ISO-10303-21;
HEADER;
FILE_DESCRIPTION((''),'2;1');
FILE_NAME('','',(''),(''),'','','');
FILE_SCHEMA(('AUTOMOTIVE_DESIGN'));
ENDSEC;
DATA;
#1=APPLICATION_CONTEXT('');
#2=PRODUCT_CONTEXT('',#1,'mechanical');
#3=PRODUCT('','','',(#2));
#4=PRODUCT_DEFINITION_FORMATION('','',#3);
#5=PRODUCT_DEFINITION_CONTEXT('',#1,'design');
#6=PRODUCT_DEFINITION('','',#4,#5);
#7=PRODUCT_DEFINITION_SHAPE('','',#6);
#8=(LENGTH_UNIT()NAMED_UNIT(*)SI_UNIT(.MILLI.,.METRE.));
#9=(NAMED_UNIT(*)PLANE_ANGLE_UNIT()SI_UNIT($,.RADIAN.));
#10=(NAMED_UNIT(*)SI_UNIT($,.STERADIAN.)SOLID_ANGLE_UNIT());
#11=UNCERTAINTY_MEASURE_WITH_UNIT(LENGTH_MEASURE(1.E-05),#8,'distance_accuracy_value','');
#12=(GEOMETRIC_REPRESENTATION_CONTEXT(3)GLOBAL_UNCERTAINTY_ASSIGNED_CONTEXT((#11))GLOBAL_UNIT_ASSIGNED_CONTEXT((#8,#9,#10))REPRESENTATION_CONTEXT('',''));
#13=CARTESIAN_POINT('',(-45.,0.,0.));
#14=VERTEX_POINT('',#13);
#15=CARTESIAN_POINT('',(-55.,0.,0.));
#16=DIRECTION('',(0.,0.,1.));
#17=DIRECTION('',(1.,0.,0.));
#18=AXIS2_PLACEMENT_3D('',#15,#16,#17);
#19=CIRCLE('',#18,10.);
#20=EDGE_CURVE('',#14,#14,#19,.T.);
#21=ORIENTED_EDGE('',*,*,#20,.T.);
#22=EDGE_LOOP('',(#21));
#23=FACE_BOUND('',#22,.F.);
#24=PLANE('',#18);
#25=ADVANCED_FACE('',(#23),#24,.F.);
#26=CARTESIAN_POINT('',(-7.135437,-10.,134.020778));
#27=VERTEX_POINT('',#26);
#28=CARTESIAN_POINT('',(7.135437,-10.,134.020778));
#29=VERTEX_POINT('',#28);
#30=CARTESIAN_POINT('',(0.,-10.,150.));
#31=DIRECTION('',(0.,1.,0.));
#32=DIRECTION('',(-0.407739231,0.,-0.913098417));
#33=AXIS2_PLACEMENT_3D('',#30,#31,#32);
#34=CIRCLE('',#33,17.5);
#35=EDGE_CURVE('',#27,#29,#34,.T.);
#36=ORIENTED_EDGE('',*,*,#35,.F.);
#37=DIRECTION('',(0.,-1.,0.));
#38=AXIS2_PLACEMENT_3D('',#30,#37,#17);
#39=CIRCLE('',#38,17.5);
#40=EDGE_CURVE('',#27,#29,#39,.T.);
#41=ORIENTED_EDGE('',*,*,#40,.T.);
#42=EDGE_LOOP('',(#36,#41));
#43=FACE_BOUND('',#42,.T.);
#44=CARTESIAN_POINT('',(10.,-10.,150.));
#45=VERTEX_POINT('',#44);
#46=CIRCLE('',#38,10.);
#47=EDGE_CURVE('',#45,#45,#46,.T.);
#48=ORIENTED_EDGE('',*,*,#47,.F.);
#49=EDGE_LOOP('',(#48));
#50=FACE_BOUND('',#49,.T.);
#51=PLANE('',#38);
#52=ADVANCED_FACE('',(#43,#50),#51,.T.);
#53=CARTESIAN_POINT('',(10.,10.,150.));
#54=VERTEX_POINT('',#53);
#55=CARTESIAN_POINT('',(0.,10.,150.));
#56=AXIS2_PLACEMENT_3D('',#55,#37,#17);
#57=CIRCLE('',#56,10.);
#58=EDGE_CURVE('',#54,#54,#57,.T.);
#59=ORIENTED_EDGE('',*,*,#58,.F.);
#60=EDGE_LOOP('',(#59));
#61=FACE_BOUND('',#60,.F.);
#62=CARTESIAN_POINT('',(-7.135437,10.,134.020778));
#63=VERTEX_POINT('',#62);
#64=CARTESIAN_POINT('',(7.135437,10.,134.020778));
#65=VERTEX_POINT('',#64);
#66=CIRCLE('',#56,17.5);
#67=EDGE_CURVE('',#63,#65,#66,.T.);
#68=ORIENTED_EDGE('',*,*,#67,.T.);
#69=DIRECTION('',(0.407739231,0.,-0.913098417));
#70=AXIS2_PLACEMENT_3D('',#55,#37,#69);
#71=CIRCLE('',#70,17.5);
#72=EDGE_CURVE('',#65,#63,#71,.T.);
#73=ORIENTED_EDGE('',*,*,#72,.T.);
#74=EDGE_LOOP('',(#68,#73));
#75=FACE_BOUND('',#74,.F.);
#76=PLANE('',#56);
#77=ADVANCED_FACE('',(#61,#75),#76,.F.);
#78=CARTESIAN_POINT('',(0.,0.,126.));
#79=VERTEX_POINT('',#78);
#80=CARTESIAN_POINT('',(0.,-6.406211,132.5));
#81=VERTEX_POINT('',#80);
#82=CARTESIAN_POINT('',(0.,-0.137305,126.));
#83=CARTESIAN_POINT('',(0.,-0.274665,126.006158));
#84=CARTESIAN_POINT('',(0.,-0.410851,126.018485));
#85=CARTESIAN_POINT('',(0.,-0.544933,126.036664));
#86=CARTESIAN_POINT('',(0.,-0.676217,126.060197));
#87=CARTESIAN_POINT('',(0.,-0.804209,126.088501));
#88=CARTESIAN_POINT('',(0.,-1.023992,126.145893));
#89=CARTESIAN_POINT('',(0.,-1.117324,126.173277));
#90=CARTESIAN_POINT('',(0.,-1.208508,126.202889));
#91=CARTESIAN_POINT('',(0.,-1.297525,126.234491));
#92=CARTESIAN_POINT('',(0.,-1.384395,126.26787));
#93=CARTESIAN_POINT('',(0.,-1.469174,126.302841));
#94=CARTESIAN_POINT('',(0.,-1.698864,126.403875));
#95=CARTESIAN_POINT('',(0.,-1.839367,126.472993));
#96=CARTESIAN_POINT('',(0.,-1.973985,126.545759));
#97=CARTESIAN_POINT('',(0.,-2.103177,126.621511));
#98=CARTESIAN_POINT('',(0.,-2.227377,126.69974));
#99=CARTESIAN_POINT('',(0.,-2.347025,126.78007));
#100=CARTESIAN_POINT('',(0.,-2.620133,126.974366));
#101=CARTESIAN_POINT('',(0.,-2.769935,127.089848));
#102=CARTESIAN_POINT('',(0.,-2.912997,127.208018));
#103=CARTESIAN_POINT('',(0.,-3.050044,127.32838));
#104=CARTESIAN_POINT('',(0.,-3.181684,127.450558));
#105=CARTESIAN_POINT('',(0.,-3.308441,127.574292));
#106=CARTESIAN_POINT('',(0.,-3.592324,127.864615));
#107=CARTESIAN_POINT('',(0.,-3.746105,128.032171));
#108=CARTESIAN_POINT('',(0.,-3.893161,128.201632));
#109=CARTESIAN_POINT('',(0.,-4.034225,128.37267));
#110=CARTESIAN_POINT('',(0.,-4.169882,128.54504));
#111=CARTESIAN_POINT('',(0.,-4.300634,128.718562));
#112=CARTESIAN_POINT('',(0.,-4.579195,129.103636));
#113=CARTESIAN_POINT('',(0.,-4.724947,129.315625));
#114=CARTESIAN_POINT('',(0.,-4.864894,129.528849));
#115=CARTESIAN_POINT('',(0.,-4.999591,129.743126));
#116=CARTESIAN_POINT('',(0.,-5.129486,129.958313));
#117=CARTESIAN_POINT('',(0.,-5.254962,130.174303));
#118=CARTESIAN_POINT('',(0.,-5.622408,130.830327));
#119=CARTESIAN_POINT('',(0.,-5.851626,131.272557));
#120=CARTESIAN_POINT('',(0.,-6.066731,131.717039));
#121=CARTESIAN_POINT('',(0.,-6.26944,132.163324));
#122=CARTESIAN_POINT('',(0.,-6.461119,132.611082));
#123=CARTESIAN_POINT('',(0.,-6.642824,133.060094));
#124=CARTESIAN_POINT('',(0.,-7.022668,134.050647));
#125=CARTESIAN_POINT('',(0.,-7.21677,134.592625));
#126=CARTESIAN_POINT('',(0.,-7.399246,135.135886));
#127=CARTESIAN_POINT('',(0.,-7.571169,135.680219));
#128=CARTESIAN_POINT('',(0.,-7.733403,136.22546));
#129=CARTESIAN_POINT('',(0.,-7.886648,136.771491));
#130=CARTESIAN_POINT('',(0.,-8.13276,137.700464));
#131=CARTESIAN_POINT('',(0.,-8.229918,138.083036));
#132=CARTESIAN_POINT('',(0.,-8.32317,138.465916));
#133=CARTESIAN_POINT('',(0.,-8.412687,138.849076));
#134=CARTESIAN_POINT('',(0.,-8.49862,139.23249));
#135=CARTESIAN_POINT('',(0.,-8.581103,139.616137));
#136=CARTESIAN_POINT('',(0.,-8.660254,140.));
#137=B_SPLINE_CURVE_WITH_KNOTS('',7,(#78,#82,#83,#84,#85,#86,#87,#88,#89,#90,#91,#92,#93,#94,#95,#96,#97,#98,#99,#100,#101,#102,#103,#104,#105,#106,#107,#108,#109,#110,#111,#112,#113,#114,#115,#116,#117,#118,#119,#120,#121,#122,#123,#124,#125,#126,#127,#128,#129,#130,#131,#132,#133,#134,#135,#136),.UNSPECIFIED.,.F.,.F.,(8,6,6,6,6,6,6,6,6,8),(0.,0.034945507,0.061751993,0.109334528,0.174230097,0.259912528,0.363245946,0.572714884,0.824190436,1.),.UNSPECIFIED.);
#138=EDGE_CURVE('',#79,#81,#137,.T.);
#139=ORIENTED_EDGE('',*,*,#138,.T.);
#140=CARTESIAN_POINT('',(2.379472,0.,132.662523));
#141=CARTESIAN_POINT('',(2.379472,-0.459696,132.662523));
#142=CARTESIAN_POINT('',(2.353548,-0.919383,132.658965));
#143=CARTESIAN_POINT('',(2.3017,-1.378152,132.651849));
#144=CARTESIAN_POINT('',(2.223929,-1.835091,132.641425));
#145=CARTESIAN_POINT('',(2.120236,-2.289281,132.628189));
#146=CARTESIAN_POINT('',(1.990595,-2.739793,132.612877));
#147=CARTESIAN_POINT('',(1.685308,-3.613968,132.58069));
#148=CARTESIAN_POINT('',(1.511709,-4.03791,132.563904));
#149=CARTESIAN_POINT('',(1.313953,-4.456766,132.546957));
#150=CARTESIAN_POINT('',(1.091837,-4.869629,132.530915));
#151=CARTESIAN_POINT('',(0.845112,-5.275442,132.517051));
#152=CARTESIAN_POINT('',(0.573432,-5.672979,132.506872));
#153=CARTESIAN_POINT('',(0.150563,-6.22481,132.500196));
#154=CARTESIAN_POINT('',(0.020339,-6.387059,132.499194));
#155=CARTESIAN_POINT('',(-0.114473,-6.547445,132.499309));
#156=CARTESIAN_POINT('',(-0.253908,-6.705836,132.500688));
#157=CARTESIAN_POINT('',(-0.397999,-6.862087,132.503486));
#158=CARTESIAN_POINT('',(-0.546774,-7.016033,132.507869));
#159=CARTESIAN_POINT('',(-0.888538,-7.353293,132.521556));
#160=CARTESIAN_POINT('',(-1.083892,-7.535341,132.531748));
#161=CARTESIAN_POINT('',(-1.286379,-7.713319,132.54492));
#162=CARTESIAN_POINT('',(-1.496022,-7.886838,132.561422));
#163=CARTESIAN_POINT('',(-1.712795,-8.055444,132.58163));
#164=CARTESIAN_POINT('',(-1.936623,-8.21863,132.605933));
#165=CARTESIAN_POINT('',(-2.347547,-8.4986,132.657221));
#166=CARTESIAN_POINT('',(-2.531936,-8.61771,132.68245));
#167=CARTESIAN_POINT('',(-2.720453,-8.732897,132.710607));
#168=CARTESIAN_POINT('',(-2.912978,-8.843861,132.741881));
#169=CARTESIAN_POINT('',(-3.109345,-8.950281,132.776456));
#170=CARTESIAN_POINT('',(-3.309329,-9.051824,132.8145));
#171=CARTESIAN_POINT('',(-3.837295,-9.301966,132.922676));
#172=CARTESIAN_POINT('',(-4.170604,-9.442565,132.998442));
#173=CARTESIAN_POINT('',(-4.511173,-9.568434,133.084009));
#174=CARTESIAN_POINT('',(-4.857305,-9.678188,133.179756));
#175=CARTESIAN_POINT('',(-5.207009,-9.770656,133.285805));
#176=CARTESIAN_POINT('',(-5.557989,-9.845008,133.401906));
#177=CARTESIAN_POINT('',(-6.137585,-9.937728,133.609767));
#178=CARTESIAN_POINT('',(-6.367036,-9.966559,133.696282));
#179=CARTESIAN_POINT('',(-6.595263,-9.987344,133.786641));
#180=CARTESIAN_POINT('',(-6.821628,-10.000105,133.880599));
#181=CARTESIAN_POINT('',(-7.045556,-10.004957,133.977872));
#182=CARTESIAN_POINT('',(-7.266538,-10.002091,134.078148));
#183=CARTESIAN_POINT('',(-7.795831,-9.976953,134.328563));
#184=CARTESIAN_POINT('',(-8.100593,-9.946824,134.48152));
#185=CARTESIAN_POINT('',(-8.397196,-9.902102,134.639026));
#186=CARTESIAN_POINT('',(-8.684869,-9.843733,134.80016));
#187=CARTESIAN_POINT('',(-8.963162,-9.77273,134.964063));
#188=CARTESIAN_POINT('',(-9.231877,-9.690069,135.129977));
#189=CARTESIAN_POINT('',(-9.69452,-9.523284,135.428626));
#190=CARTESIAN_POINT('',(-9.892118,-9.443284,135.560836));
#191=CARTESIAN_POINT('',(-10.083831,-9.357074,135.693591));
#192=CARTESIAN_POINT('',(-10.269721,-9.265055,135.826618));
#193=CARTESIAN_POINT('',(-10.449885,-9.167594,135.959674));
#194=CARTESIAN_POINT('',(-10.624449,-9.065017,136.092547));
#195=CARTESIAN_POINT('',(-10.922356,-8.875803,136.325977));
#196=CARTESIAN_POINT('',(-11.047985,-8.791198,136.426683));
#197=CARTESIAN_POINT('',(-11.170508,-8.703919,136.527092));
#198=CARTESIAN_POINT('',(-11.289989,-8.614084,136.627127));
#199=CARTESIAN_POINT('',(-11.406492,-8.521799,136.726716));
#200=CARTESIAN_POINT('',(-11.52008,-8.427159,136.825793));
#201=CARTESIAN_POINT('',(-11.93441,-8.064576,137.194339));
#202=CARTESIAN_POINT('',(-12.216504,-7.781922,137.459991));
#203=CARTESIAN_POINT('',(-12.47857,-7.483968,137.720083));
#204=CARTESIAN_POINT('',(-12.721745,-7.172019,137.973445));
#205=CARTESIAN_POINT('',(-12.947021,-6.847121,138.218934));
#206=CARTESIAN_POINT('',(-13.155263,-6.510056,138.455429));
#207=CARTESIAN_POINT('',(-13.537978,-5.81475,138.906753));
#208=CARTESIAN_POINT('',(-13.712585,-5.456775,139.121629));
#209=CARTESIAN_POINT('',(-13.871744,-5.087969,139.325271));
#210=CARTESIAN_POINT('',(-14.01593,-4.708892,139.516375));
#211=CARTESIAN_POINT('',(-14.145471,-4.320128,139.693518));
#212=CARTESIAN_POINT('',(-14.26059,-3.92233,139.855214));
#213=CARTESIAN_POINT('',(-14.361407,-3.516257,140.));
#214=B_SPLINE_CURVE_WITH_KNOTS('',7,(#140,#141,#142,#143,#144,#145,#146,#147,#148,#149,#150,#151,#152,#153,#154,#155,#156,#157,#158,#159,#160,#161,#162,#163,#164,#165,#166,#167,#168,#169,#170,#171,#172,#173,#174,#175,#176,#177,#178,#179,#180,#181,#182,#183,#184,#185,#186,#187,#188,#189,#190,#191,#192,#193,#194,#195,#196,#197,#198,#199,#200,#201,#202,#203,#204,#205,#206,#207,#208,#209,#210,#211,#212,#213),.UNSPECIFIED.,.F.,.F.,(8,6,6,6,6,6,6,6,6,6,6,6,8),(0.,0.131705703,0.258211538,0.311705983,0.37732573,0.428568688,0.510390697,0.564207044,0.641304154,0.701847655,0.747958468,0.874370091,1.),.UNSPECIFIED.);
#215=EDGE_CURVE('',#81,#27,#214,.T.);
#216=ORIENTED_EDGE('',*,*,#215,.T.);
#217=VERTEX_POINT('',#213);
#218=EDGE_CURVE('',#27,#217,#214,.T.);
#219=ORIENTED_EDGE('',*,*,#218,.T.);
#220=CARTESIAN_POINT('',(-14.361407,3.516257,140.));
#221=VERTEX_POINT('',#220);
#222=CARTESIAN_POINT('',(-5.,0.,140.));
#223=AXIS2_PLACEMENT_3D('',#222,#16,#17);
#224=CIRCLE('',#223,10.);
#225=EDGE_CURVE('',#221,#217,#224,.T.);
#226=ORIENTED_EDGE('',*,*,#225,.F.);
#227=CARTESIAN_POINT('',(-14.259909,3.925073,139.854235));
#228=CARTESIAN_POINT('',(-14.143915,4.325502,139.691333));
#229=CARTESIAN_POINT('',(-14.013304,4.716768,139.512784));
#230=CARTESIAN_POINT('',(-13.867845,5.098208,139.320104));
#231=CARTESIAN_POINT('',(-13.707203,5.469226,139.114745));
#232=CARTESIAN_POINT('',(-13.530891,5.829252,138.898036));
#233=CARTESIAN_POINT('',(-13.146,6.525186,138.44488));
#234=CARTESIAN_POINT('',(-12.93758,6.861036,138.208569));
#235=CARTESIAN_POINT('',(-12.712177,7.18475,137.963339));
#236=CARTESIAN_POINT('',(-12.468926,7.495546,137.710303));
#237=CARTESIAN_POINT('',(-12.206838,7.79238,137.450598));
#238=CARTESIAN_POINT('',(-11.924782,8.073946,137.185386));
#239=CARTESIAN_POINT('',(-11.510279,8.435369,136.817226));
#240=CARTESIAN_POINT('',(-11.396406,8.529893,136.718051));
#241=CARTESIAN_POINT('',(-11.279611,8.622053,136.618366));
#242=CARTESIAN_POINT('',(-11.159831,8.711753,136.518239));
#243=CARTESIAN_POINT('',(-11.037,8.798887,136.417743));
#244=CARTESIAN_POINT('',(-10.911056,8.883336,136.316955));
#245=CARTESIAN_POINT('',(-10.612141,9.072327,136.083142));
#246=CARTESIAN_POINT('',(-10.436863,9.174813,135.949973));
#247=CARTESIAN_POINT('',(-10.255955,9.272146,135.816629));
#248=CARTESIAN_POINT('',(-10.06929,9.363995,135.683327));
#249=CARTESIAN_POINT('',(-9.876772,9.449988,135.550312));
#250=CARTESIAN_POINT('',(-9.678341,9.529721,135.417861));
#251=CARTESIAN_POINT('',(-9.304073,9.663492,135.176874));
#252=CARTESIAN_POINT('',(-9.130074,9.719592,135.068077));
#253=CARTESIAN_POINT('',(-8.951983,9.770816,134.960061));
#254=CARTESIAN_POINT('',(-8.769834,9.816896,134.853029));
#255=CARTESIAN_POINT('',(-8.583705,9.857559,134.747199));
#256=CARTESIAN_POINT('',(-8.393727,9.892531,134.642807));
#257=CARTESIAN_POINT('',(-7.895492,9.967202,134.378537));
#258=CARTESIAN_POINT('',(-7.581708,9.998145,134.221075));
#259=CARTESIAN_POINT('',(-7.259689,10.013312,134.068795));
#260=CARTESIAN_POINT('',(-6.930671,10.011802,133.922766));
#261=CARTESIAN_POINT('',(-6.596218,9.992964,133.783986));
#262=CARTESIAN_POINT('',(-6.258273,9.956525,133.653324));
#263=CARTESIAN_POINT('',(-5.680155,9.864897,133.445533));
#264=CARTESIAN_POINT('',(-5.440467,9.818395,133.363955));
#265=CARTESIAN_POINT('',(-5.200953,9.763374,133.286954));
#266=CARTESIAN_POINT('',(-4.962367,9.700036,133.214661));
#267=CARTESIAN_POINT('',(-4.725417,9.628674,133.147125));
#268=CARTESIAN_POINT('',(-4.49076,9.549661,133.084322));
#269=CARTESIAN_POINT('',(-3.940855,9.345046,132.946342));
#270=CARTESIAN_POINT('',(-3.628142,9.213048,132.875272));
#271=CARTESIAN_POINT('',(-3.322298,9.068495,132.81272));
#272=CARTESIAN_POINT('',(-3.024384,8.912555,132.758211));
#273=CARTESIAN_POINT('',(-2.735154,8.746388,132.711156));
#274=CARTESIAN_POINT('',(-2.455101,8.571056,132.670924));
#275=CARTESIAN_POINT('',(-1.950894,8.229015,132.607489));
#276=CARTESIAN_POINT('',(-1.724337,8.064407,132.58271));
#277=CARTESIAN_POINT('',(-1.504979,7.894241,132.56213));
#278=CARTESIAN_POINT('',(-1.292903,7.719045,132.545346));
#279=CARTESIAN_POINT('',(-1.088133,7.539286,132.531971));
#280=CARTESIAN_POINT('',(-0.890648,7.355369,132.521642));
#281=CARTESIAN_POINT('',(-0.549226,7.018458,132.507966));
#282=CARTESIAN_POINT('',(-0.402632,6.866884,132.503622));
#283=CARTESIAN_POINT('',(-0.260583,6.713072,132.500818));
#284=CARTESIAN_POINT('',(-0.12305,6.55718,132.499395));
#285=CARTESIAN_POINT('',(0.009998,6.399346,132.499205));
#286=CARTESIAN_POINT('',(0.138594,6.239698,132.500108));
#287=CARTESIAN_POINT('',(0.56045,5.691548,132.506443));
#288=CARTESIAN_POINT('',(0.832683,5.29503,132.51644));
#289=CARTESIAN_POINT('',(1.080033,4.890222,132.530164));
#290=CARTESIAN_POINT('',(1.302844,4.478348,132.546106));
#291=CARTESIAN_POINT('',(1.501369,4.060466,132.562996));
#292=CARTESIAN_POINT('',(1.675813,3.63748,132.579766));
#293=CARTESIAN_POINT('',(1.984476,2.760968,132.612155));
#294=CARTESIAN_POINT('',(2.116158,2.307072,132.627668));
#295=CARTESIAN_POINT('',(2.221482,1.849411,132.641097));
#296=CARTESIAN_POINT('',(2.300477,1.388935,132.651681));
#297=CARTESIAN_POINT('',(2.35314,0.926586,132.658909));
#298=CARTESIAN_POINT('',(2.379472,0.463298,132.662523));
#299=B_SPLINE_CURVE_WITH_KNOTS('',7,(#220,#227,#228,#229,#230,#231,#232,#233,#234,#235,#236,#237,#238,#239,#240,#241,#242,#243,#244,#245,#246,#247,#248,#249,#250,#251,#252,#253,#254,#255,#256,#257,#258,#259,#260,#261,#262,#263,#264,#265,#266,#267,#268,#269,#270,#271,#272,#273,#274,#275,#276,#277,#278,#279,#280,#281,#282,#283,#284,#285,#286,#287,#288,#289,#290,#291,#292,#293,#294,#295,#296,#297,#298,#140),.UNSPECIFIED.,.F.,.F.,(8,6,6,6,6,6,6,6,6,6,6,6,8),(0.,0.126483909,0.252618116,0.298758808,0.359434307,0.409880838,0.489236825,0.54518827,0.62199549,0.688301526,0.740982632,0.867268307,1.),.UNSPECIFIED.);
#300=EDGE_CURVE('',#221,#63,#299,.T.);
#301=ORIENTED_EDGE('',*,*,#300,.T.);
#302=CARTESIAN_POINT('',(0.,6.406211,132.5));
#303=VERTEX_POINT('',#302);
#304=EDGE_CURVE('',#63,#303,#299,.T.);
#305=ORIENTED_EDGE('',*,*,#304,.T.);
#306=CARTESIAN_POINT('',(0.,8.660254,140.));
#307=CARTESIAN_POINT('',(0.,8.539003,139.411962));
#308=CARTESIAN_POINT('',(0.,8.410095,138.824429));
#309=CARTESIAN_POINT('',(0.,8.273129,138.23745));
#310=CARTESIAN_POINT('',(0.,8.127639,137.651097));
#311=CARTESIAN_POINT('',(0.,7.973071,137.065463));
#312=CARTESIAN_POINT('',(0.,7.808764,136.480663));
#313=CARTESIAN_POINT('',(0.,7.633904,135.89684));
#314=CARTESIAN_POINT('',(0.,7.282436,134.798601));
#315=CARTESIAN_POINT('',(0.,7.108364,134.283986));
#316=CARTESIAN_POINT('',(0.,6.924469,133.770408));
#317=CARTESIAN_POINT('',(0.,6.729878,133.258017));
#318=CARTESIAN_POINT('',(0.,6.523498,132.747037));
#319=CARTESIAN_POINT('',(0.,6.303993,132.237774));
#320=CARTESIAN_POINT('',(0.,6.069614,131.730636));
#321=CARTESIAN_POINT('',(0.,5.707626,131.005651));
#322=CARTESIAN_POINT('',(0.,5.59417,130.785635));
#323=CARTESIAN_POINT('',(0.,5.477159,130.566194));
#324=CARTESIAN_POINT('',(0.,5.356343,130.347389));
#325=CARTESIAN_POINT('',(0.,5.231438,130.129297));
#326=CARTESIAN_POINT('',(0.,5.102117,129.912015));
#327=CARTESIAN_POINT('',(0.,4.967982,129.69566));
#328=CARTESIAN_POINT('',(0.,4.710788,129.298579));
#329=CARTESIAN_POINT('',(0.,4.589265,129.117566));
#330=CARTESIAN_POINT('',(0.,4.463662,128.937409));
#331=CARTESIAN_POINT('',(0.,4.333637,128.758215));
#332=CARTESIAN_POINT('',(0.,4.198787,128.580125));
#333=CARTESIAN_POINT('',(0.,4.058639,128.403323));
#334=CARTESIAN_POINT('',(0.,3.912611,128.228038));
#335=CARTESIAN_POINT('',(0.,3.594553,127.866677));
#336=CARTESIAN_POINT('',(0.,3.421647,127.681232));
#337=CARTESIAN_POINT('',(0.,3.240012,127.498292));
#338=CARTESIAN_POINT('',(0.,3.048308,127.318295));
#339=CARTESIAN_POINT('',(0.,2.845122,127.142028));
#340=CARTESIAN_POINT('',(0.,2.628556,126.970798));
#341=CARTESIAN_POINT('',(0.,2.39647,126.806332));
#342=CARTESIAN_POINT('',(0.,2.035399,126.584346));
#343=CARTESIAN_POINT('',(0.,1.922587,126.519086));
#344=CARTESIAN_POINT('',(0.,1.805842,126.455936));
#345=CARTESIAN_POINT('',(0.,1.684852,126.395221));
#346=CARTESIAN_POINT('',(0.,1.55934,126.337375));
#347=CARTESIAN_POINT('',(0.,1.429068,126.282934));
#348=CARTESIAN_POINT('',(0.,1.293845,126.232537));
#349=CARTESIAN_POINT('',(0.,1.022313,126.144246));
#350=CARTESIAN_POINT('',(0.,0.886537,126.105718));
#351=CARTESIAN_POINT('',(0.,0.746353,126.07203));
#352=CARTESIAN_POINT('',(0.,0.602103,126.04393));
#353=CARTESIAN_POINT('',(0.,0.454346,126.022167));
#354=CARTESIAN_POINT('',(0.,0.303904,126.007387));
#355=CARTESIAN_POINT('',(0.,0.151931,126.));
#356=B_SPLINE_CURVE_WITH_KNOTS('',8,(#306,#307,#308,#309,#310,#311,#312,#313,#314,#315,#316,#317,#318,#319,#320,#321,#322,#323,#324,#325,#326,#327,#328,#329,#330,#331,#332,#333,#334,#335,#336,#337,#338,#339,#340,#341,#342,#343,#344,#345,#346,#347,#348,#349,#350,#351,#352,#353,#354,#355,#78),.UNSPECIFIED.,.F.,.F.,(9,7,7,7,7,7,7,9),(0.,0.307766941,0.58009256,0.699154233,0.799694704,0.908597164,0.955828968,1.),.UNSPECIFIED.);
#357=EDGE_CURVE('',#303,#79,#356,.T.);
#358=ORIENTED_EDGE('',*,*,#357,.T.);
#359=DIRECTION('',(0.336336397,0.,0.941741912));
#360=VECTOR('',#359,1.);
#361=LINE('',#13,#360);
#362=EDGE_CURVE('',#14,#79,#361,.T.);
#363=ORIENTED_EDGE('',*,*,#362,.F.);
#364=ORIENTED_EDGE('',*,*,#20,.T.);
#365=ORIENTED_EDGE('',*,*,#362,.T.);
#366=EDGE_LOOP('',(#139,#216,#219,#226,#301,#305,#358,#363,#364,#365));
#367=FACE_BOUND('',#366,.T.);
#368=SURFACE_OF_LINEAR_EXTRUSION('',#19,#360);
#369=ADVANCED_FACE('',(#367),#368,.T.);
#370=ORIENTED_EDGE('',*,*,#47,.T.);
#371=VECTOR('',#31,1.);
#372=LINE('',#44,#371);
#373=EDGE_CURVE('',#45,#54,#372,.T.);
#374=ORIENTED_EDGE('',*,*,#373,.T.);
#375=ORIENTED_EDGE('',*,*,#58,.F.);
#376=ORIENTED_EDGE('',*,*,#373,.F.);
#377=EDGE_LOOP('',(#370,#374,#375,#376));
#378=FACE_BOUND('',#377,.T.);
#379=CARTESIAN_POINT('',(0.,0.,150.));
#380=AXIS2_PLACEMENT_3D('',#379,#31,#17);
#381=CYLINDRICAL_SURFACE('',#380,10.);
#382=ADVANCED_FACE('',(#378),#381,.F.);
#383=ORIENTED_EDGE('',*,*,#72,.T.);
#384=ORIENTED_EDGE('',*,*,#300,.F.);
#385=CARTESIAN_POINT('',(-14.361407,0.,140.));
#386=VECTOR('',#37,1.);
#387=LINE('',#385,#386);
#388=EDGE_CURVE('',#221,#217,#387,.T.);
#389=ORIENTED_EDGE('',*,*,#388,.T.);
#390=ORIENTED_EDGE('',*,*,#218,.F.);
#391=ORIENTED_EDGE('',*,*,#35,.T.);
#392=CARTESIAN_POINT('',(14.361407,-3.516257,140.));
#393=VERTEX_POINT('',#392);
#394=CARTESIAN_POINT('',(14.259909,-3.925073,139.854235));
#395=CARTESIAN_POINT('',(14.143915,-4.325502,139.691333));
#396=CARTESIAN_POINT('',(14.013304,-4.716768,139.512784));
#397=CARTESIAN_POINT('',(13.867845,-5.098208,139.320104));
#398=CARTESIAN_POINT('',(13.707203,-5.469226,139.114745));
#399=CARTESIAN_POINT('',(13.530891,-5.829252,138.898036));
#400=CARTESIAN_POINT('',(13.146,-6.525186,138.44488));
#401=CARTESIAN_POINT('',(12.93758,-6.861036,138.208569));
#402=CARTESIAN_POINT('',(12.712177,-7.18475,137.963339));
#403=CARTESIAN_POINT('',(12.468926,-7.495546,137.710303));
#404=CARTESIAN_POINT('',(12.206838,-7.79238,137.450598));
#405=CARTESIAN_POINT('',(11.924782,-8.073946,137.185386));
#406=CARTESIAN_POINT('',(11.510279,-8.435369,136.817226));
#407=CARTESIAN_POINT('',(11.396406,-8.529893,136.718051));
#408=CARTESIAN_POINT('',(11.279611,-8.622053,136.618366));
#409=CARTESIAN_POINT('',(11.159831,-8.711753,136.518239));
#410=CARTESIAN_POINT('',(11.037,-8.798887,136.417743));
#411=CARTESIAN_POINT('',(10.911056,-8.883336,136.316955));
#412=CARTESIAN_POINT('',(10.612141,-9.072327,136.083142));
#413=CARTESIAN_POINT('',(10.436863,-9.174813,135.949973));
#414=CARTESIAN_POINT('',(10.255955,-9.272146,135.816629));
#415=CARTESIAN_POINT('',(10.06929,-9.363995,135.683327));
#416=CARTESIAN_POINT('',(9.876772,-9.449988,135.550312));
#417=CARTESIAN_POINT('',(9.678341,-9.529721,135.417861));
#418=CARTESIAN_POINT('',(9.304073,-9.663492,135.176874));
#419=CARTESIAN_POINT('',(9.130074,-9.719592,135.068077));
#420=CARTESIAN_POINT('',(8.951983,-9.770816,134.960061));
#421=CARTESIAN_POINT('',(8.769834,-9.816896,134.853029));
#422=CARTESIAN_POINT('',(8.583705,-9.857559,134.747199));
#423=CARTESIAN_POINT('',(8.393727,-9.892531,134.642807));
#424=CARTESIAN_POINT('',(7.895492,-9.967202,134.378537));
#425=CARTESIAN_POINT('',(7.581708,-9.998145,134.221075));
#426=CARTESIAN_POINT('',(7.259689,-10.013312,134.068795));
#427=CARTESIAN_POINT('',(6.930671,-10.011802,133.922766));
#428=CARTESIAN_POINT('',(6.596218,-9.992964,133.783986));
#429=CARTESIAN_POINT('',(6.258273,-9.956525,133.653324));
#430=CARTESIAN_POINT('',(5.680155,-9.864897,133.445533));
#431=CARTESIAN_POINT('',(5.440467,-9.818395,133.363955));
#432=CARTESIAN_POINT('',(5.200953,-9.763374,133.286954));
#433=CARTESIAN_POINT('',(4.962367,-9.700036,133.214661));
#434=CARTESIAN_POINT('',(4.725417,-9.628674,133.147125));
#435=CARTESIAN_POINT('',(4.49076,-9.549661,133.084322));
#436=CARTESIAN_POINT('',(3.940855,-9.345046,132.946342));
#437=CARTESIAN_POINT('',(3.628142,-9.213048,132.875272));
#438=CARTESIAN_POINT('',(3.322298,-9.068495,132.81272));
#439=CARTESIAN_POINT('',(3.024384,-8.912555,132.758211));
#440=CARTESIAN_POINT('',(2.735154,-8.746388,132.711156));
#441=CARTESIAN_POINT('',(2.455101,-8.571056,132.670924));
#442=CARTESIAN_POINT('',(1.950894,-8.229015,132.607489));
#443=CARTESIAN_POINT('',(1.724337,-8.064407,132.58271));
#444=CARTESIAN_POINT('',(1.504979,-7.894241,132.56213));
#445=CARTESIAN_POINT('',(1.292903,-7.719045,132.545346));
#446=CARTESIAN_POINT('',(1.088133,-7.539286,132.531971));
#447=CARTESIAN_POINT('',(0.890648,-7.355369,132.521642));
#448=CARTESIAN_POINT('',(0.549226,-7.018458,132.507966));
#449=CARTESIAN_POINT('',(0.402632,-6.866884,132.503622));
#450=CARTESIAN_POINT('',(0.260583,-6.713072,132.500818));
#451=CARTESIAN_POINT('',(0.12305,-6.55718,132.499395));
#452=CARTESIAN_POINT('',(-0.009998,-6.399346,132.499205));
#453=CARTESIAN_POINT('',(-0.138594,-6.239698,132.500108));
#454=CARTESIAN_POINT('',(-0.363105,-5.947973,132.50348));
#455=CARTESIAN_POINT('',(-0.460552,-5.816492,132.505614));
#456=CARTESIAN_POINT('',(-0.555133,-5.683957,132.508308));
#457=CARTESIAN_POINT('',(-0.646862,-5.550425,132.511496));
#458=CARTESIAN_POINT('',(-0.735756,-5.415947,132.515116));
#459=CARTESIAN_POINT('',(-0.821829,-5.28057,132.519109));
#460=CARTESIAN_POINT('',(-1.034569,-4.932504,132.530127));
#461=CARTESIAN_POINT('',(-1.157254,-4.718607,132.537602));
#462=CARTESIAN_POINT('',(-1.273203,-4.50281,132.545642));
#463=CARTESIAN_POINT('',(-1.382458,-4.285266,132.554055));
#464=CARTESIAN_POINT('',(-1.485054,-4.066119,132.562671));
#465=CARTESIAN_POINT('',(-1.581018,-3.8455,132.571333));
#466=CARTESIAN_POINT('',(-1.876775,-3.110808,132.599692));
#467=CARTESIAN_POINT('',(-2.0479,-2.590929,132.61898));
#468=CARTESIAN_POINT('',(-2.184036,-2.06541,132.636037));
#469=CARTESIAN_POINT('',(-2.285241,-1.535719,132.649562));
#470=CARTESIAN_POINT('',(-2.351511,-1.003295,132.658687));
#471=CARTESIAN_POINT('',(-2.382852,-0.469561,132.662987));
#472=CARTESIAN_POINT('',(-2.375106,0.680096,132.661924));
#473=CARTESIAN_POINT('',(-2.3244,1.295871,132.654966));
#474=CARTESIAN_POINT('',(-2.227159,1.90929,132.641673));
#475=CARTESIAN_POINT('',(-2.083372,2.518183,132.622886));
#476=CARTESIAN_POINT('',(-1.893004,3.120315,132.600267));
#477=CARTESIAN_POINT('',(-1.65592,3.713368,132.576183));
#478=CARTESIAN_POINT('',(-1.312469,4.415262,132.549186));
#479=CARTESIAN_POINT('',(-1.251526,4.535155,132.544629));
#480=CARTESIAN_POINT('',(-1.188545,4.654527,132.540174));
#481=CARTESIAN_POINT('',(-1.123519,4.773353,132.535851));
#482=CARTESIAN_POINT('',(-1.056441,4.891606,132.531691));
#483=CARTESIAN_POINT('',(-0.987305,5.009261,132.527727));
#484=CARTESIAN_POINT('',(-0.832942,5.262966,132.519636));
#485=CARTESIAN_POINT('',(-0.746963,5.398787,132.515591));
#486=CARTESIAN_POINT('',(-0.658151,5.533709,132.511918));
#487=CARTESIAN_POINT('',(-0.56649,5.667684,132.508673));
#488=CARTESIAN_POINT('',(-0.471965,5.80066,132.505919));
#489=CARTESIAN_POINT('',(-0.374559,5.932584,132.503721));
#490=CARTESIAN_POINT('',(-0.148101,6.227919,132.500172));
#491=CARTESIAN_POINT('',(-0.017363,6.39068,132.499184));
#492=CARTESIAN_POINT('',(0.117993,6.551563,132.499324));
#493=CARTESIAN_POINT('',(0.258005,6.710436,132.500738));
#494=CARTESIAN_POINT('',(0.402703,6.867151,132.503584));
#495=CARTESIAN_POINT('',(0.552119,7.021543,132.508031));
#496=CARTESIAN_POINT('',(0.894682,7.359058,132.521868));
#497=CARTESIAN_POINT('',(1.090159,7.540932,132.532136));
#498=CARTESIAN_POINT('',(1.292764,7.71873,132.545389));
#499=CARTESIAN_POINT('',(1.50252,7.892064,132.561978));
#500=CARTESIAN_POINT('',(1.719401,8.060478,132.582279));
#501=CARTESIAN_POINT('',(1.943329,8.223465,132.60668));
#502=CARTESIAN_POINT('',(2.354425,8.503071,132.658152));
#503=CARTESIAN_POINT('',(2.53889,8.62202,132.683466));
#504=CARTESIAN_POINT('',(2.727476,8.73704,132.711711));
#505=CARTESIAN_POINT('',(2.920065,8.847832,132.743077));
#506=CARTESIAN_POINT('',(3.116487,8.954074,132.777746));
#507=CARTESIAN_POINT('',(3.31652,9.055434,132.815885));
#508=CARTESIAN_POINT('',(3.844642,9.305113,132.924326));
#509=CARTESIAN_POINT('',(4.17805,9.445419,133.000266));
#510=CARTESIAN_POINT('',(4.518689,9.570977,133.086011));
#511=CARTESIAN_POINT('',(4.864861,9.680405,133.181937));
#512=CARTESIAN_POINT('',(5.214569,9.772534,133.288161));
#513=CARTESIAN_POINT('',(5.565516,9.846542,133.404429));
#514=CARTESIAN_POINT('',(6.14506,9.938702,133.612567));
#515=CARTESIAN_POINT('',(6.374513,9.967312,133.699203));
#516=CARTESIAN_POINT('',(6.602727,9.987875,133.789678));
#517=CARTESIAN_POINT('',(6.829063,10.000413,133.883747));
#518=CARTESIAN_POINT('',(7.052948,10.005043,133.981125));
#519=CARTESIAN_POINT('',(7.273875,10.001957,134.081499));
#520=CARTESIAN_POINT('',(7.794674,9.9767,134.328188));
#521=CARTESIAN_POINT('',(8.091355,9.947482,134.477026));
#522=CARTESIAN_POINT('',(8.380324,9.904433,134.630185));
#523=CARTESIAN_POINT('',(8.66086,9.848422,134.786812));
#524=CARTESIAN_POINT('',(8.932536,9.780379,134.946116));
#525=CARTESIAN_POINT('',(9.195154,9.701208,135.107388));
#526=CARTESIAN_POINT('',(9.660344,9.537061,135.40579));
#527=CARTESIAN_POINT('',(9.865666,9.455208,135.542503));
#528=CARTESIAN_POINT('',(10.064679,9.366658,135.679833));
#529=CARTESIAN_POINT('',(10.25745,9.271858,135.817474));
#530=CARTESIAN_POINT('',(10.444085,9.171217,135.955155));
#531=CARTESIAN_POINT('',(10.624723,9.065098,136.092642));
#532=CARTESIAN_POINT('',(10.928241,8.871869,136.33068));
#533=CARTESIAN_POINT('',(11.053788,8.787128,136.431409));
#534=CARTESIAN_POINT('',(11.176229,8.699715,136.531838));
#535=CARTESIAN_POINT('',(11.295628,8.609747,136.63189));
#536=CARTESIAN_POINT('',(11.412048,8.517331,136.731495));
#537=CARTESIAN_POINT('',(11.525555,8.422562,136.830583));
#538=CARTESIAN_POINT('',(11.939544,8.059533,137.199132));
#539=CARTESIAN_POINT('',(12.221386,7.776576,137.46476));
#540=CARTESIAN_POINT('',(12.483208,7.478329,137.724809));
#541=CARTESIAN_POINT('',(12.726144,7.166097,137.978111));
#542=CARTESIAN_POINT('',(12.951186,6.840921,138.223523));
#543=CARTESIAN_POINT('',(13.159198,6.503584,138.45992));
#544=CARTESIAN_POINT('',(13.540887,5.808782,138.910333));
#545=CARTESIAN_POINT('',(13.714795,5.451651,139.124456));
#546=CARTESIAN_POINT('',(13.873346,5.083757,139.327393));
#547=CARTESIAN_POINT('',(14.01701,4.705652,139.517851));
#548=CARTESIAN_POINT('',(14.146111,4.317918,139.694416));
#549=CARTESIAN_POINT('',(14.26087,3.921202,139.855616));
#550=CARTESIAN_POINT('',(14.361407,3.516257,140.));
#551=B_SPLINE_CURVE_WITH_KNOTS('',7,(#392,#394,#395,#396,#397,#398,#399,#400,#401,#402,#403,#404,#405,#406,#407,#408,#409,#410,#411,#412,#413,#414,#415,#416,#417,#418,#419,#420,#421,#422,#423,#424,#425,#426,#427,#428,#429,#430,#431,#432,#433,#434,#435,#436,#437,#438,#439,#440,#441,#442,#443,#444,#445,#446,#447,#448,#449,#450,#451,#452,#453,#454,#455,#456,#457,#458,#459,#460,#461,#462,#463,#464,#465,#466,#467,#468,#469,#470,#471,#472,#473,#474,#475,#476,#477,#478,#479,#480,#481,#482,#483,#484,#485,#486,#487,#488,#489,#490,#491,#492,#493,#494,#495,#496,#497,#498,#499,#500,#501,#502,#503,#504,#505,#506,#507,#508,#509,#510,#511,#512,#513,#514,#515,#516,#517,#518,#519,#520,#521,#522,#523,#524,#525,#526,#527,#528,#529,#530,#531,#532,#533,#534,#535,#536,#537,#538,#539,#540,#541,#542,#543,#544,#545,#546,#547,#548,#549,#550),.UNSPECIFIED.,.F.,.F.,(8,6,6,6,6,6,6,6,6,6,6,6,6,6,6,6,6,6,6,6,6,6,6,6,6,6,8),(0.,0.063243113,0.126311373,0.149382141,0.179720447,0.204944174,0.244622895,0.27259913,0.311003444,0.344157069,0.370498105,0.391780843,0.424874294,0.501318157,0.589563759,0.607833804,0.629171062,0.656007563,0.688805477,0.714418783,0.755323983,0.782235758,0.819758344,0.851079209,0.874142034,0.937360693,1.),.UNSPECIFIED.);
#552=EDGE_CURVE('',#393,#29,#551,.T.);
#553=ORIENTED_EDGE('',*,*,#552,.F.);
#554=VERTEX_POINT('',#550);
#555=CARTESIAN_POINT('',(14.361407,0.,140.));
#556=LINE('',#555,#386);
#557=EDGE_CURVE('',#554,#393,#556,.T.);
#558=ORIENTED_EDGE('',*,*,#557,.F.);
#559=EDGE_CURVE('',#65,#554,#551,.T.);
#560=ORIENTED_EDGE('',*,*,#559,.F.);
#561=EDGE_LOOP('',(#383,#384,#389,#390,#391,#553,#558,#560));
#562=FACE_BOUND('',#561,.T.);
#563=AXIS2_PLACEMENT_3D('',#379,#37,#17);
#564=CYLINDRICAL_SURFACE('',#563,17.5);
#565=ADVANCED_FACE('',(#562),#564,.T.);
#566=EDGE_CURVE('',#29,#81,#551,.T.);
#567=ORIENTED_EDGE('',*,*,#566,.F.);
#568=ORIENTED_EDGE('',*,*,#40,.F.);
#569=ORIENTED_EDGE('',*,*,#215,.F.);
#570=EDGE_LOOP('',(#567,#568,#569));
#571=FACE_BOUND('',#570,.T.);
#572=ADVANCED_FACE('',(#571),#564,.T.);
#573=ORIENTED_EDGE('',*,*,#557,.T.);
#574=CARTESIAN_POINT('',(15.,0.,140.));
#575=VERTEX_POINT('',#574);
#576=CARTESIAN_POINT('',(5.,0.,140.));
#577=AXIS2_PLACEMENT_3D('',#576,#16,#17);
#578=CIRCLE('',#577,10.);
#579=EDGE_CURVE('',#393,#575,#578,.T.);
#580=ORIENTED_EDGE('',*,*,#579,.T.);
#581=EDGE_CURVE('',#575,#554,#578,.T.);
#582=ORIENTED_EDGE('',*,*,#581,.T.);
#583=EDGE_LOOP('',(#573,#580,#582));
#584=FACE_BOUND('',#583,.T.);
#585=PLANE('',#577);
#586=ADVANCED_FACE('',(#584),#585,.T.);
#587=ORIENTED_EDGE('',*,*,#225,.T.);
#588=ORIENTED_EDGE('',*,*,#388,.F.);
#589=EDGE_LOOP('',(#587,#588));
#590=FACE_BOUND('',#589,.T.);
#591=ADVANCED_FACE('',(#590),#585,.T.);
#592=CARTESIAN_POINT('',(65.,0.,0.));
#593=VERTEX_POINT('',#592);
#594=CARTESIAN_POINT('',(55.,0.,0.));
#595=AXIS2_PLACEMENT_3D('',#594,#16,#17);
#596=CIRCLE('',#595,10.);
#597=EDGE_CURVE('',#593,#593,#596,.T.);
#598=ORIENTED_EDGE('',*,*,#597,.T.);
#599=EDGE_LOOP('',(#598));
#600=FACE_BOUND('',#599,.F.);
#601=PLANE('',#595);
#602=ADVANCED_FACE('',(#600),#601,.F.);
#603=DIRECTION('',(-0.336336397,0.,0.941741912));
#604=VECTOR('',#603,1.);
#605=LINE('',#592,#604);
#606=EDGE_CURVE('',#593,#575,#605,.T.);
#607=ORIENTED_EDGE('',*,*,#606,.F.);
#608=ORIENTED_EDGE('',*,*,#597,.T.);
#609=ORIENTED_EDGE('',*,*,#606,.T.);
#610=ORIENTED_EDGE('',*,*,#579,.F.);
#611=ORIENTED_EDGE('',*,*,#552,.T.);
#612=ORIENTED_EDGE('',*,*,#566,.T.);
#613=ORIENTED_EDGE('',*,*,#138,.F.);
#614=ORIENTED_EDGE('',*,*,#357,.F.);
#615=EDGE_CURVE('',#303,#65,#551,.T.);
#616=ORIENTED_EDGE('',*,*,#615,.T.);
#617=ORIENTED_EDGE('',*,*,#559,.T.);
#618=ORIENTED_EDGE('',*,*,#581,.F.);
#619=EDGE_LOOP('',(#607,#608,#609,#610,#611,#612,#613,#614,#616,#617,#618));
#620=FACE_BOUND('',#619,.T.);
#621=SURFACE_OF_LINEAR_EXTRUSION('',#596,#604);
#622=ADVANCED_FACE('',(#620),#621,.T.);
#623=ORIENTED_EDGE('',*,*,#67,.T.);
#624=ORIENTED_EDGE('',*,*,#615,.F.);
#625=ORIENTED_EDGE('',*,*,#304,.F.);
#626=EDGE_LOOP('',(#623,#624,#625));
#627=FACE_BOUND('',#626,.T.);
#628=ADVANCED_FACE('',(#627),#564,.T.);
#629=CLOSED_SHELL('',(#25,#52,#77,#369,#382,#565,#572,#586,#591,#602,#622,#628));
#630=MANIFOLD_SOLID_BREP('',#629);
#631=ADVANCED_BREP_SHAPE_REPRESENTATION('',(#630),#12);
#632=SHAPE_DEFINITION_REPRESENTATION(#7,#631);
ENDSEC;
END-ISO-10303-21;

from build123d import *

# Parameters (mm, degrees)
F0_R     = 10
F4_R     = 17.5
F4_R_2   = 10
F5_DEPTH = 10


with BuildPart() as f2:
    # F2: sweep along a path in F1
    with BuildLine(Plane.XZ) as f2_path:
        Line((-55, 0), (-5, 140))
    # F0 (on Top) → F2 (sweep)
    with BuildSketch(Plane.XY):
        with Locations((-55, 0)):
            Circle(F0_R)
    sweep(path=f2_path.line)

    # F3: sweep along a path in F1
    with BuildLine(Plane.XZ) as f3_path:
        Line((55, 0), (5, 140))
    # F0 (on Top) → F3 (sweep)
    with BuildSketch(Plane.XY):
        with Locations((55, 0)):
            Circle(F0_R)
    sweep(path=f3_path.line)

    # F4 (on Front) → F5 (join, symmetric)
    with BuildSketch(Plane.XZ):
        with Locations((0, 150)):
            Circle(F4_R)
        with Locations((0, 150)):
            Circle(F4_R_2, mode=Mode.SUBTRACT)
    extrude(amount=F5_DEPTH, both=True)


solid = f2.part
